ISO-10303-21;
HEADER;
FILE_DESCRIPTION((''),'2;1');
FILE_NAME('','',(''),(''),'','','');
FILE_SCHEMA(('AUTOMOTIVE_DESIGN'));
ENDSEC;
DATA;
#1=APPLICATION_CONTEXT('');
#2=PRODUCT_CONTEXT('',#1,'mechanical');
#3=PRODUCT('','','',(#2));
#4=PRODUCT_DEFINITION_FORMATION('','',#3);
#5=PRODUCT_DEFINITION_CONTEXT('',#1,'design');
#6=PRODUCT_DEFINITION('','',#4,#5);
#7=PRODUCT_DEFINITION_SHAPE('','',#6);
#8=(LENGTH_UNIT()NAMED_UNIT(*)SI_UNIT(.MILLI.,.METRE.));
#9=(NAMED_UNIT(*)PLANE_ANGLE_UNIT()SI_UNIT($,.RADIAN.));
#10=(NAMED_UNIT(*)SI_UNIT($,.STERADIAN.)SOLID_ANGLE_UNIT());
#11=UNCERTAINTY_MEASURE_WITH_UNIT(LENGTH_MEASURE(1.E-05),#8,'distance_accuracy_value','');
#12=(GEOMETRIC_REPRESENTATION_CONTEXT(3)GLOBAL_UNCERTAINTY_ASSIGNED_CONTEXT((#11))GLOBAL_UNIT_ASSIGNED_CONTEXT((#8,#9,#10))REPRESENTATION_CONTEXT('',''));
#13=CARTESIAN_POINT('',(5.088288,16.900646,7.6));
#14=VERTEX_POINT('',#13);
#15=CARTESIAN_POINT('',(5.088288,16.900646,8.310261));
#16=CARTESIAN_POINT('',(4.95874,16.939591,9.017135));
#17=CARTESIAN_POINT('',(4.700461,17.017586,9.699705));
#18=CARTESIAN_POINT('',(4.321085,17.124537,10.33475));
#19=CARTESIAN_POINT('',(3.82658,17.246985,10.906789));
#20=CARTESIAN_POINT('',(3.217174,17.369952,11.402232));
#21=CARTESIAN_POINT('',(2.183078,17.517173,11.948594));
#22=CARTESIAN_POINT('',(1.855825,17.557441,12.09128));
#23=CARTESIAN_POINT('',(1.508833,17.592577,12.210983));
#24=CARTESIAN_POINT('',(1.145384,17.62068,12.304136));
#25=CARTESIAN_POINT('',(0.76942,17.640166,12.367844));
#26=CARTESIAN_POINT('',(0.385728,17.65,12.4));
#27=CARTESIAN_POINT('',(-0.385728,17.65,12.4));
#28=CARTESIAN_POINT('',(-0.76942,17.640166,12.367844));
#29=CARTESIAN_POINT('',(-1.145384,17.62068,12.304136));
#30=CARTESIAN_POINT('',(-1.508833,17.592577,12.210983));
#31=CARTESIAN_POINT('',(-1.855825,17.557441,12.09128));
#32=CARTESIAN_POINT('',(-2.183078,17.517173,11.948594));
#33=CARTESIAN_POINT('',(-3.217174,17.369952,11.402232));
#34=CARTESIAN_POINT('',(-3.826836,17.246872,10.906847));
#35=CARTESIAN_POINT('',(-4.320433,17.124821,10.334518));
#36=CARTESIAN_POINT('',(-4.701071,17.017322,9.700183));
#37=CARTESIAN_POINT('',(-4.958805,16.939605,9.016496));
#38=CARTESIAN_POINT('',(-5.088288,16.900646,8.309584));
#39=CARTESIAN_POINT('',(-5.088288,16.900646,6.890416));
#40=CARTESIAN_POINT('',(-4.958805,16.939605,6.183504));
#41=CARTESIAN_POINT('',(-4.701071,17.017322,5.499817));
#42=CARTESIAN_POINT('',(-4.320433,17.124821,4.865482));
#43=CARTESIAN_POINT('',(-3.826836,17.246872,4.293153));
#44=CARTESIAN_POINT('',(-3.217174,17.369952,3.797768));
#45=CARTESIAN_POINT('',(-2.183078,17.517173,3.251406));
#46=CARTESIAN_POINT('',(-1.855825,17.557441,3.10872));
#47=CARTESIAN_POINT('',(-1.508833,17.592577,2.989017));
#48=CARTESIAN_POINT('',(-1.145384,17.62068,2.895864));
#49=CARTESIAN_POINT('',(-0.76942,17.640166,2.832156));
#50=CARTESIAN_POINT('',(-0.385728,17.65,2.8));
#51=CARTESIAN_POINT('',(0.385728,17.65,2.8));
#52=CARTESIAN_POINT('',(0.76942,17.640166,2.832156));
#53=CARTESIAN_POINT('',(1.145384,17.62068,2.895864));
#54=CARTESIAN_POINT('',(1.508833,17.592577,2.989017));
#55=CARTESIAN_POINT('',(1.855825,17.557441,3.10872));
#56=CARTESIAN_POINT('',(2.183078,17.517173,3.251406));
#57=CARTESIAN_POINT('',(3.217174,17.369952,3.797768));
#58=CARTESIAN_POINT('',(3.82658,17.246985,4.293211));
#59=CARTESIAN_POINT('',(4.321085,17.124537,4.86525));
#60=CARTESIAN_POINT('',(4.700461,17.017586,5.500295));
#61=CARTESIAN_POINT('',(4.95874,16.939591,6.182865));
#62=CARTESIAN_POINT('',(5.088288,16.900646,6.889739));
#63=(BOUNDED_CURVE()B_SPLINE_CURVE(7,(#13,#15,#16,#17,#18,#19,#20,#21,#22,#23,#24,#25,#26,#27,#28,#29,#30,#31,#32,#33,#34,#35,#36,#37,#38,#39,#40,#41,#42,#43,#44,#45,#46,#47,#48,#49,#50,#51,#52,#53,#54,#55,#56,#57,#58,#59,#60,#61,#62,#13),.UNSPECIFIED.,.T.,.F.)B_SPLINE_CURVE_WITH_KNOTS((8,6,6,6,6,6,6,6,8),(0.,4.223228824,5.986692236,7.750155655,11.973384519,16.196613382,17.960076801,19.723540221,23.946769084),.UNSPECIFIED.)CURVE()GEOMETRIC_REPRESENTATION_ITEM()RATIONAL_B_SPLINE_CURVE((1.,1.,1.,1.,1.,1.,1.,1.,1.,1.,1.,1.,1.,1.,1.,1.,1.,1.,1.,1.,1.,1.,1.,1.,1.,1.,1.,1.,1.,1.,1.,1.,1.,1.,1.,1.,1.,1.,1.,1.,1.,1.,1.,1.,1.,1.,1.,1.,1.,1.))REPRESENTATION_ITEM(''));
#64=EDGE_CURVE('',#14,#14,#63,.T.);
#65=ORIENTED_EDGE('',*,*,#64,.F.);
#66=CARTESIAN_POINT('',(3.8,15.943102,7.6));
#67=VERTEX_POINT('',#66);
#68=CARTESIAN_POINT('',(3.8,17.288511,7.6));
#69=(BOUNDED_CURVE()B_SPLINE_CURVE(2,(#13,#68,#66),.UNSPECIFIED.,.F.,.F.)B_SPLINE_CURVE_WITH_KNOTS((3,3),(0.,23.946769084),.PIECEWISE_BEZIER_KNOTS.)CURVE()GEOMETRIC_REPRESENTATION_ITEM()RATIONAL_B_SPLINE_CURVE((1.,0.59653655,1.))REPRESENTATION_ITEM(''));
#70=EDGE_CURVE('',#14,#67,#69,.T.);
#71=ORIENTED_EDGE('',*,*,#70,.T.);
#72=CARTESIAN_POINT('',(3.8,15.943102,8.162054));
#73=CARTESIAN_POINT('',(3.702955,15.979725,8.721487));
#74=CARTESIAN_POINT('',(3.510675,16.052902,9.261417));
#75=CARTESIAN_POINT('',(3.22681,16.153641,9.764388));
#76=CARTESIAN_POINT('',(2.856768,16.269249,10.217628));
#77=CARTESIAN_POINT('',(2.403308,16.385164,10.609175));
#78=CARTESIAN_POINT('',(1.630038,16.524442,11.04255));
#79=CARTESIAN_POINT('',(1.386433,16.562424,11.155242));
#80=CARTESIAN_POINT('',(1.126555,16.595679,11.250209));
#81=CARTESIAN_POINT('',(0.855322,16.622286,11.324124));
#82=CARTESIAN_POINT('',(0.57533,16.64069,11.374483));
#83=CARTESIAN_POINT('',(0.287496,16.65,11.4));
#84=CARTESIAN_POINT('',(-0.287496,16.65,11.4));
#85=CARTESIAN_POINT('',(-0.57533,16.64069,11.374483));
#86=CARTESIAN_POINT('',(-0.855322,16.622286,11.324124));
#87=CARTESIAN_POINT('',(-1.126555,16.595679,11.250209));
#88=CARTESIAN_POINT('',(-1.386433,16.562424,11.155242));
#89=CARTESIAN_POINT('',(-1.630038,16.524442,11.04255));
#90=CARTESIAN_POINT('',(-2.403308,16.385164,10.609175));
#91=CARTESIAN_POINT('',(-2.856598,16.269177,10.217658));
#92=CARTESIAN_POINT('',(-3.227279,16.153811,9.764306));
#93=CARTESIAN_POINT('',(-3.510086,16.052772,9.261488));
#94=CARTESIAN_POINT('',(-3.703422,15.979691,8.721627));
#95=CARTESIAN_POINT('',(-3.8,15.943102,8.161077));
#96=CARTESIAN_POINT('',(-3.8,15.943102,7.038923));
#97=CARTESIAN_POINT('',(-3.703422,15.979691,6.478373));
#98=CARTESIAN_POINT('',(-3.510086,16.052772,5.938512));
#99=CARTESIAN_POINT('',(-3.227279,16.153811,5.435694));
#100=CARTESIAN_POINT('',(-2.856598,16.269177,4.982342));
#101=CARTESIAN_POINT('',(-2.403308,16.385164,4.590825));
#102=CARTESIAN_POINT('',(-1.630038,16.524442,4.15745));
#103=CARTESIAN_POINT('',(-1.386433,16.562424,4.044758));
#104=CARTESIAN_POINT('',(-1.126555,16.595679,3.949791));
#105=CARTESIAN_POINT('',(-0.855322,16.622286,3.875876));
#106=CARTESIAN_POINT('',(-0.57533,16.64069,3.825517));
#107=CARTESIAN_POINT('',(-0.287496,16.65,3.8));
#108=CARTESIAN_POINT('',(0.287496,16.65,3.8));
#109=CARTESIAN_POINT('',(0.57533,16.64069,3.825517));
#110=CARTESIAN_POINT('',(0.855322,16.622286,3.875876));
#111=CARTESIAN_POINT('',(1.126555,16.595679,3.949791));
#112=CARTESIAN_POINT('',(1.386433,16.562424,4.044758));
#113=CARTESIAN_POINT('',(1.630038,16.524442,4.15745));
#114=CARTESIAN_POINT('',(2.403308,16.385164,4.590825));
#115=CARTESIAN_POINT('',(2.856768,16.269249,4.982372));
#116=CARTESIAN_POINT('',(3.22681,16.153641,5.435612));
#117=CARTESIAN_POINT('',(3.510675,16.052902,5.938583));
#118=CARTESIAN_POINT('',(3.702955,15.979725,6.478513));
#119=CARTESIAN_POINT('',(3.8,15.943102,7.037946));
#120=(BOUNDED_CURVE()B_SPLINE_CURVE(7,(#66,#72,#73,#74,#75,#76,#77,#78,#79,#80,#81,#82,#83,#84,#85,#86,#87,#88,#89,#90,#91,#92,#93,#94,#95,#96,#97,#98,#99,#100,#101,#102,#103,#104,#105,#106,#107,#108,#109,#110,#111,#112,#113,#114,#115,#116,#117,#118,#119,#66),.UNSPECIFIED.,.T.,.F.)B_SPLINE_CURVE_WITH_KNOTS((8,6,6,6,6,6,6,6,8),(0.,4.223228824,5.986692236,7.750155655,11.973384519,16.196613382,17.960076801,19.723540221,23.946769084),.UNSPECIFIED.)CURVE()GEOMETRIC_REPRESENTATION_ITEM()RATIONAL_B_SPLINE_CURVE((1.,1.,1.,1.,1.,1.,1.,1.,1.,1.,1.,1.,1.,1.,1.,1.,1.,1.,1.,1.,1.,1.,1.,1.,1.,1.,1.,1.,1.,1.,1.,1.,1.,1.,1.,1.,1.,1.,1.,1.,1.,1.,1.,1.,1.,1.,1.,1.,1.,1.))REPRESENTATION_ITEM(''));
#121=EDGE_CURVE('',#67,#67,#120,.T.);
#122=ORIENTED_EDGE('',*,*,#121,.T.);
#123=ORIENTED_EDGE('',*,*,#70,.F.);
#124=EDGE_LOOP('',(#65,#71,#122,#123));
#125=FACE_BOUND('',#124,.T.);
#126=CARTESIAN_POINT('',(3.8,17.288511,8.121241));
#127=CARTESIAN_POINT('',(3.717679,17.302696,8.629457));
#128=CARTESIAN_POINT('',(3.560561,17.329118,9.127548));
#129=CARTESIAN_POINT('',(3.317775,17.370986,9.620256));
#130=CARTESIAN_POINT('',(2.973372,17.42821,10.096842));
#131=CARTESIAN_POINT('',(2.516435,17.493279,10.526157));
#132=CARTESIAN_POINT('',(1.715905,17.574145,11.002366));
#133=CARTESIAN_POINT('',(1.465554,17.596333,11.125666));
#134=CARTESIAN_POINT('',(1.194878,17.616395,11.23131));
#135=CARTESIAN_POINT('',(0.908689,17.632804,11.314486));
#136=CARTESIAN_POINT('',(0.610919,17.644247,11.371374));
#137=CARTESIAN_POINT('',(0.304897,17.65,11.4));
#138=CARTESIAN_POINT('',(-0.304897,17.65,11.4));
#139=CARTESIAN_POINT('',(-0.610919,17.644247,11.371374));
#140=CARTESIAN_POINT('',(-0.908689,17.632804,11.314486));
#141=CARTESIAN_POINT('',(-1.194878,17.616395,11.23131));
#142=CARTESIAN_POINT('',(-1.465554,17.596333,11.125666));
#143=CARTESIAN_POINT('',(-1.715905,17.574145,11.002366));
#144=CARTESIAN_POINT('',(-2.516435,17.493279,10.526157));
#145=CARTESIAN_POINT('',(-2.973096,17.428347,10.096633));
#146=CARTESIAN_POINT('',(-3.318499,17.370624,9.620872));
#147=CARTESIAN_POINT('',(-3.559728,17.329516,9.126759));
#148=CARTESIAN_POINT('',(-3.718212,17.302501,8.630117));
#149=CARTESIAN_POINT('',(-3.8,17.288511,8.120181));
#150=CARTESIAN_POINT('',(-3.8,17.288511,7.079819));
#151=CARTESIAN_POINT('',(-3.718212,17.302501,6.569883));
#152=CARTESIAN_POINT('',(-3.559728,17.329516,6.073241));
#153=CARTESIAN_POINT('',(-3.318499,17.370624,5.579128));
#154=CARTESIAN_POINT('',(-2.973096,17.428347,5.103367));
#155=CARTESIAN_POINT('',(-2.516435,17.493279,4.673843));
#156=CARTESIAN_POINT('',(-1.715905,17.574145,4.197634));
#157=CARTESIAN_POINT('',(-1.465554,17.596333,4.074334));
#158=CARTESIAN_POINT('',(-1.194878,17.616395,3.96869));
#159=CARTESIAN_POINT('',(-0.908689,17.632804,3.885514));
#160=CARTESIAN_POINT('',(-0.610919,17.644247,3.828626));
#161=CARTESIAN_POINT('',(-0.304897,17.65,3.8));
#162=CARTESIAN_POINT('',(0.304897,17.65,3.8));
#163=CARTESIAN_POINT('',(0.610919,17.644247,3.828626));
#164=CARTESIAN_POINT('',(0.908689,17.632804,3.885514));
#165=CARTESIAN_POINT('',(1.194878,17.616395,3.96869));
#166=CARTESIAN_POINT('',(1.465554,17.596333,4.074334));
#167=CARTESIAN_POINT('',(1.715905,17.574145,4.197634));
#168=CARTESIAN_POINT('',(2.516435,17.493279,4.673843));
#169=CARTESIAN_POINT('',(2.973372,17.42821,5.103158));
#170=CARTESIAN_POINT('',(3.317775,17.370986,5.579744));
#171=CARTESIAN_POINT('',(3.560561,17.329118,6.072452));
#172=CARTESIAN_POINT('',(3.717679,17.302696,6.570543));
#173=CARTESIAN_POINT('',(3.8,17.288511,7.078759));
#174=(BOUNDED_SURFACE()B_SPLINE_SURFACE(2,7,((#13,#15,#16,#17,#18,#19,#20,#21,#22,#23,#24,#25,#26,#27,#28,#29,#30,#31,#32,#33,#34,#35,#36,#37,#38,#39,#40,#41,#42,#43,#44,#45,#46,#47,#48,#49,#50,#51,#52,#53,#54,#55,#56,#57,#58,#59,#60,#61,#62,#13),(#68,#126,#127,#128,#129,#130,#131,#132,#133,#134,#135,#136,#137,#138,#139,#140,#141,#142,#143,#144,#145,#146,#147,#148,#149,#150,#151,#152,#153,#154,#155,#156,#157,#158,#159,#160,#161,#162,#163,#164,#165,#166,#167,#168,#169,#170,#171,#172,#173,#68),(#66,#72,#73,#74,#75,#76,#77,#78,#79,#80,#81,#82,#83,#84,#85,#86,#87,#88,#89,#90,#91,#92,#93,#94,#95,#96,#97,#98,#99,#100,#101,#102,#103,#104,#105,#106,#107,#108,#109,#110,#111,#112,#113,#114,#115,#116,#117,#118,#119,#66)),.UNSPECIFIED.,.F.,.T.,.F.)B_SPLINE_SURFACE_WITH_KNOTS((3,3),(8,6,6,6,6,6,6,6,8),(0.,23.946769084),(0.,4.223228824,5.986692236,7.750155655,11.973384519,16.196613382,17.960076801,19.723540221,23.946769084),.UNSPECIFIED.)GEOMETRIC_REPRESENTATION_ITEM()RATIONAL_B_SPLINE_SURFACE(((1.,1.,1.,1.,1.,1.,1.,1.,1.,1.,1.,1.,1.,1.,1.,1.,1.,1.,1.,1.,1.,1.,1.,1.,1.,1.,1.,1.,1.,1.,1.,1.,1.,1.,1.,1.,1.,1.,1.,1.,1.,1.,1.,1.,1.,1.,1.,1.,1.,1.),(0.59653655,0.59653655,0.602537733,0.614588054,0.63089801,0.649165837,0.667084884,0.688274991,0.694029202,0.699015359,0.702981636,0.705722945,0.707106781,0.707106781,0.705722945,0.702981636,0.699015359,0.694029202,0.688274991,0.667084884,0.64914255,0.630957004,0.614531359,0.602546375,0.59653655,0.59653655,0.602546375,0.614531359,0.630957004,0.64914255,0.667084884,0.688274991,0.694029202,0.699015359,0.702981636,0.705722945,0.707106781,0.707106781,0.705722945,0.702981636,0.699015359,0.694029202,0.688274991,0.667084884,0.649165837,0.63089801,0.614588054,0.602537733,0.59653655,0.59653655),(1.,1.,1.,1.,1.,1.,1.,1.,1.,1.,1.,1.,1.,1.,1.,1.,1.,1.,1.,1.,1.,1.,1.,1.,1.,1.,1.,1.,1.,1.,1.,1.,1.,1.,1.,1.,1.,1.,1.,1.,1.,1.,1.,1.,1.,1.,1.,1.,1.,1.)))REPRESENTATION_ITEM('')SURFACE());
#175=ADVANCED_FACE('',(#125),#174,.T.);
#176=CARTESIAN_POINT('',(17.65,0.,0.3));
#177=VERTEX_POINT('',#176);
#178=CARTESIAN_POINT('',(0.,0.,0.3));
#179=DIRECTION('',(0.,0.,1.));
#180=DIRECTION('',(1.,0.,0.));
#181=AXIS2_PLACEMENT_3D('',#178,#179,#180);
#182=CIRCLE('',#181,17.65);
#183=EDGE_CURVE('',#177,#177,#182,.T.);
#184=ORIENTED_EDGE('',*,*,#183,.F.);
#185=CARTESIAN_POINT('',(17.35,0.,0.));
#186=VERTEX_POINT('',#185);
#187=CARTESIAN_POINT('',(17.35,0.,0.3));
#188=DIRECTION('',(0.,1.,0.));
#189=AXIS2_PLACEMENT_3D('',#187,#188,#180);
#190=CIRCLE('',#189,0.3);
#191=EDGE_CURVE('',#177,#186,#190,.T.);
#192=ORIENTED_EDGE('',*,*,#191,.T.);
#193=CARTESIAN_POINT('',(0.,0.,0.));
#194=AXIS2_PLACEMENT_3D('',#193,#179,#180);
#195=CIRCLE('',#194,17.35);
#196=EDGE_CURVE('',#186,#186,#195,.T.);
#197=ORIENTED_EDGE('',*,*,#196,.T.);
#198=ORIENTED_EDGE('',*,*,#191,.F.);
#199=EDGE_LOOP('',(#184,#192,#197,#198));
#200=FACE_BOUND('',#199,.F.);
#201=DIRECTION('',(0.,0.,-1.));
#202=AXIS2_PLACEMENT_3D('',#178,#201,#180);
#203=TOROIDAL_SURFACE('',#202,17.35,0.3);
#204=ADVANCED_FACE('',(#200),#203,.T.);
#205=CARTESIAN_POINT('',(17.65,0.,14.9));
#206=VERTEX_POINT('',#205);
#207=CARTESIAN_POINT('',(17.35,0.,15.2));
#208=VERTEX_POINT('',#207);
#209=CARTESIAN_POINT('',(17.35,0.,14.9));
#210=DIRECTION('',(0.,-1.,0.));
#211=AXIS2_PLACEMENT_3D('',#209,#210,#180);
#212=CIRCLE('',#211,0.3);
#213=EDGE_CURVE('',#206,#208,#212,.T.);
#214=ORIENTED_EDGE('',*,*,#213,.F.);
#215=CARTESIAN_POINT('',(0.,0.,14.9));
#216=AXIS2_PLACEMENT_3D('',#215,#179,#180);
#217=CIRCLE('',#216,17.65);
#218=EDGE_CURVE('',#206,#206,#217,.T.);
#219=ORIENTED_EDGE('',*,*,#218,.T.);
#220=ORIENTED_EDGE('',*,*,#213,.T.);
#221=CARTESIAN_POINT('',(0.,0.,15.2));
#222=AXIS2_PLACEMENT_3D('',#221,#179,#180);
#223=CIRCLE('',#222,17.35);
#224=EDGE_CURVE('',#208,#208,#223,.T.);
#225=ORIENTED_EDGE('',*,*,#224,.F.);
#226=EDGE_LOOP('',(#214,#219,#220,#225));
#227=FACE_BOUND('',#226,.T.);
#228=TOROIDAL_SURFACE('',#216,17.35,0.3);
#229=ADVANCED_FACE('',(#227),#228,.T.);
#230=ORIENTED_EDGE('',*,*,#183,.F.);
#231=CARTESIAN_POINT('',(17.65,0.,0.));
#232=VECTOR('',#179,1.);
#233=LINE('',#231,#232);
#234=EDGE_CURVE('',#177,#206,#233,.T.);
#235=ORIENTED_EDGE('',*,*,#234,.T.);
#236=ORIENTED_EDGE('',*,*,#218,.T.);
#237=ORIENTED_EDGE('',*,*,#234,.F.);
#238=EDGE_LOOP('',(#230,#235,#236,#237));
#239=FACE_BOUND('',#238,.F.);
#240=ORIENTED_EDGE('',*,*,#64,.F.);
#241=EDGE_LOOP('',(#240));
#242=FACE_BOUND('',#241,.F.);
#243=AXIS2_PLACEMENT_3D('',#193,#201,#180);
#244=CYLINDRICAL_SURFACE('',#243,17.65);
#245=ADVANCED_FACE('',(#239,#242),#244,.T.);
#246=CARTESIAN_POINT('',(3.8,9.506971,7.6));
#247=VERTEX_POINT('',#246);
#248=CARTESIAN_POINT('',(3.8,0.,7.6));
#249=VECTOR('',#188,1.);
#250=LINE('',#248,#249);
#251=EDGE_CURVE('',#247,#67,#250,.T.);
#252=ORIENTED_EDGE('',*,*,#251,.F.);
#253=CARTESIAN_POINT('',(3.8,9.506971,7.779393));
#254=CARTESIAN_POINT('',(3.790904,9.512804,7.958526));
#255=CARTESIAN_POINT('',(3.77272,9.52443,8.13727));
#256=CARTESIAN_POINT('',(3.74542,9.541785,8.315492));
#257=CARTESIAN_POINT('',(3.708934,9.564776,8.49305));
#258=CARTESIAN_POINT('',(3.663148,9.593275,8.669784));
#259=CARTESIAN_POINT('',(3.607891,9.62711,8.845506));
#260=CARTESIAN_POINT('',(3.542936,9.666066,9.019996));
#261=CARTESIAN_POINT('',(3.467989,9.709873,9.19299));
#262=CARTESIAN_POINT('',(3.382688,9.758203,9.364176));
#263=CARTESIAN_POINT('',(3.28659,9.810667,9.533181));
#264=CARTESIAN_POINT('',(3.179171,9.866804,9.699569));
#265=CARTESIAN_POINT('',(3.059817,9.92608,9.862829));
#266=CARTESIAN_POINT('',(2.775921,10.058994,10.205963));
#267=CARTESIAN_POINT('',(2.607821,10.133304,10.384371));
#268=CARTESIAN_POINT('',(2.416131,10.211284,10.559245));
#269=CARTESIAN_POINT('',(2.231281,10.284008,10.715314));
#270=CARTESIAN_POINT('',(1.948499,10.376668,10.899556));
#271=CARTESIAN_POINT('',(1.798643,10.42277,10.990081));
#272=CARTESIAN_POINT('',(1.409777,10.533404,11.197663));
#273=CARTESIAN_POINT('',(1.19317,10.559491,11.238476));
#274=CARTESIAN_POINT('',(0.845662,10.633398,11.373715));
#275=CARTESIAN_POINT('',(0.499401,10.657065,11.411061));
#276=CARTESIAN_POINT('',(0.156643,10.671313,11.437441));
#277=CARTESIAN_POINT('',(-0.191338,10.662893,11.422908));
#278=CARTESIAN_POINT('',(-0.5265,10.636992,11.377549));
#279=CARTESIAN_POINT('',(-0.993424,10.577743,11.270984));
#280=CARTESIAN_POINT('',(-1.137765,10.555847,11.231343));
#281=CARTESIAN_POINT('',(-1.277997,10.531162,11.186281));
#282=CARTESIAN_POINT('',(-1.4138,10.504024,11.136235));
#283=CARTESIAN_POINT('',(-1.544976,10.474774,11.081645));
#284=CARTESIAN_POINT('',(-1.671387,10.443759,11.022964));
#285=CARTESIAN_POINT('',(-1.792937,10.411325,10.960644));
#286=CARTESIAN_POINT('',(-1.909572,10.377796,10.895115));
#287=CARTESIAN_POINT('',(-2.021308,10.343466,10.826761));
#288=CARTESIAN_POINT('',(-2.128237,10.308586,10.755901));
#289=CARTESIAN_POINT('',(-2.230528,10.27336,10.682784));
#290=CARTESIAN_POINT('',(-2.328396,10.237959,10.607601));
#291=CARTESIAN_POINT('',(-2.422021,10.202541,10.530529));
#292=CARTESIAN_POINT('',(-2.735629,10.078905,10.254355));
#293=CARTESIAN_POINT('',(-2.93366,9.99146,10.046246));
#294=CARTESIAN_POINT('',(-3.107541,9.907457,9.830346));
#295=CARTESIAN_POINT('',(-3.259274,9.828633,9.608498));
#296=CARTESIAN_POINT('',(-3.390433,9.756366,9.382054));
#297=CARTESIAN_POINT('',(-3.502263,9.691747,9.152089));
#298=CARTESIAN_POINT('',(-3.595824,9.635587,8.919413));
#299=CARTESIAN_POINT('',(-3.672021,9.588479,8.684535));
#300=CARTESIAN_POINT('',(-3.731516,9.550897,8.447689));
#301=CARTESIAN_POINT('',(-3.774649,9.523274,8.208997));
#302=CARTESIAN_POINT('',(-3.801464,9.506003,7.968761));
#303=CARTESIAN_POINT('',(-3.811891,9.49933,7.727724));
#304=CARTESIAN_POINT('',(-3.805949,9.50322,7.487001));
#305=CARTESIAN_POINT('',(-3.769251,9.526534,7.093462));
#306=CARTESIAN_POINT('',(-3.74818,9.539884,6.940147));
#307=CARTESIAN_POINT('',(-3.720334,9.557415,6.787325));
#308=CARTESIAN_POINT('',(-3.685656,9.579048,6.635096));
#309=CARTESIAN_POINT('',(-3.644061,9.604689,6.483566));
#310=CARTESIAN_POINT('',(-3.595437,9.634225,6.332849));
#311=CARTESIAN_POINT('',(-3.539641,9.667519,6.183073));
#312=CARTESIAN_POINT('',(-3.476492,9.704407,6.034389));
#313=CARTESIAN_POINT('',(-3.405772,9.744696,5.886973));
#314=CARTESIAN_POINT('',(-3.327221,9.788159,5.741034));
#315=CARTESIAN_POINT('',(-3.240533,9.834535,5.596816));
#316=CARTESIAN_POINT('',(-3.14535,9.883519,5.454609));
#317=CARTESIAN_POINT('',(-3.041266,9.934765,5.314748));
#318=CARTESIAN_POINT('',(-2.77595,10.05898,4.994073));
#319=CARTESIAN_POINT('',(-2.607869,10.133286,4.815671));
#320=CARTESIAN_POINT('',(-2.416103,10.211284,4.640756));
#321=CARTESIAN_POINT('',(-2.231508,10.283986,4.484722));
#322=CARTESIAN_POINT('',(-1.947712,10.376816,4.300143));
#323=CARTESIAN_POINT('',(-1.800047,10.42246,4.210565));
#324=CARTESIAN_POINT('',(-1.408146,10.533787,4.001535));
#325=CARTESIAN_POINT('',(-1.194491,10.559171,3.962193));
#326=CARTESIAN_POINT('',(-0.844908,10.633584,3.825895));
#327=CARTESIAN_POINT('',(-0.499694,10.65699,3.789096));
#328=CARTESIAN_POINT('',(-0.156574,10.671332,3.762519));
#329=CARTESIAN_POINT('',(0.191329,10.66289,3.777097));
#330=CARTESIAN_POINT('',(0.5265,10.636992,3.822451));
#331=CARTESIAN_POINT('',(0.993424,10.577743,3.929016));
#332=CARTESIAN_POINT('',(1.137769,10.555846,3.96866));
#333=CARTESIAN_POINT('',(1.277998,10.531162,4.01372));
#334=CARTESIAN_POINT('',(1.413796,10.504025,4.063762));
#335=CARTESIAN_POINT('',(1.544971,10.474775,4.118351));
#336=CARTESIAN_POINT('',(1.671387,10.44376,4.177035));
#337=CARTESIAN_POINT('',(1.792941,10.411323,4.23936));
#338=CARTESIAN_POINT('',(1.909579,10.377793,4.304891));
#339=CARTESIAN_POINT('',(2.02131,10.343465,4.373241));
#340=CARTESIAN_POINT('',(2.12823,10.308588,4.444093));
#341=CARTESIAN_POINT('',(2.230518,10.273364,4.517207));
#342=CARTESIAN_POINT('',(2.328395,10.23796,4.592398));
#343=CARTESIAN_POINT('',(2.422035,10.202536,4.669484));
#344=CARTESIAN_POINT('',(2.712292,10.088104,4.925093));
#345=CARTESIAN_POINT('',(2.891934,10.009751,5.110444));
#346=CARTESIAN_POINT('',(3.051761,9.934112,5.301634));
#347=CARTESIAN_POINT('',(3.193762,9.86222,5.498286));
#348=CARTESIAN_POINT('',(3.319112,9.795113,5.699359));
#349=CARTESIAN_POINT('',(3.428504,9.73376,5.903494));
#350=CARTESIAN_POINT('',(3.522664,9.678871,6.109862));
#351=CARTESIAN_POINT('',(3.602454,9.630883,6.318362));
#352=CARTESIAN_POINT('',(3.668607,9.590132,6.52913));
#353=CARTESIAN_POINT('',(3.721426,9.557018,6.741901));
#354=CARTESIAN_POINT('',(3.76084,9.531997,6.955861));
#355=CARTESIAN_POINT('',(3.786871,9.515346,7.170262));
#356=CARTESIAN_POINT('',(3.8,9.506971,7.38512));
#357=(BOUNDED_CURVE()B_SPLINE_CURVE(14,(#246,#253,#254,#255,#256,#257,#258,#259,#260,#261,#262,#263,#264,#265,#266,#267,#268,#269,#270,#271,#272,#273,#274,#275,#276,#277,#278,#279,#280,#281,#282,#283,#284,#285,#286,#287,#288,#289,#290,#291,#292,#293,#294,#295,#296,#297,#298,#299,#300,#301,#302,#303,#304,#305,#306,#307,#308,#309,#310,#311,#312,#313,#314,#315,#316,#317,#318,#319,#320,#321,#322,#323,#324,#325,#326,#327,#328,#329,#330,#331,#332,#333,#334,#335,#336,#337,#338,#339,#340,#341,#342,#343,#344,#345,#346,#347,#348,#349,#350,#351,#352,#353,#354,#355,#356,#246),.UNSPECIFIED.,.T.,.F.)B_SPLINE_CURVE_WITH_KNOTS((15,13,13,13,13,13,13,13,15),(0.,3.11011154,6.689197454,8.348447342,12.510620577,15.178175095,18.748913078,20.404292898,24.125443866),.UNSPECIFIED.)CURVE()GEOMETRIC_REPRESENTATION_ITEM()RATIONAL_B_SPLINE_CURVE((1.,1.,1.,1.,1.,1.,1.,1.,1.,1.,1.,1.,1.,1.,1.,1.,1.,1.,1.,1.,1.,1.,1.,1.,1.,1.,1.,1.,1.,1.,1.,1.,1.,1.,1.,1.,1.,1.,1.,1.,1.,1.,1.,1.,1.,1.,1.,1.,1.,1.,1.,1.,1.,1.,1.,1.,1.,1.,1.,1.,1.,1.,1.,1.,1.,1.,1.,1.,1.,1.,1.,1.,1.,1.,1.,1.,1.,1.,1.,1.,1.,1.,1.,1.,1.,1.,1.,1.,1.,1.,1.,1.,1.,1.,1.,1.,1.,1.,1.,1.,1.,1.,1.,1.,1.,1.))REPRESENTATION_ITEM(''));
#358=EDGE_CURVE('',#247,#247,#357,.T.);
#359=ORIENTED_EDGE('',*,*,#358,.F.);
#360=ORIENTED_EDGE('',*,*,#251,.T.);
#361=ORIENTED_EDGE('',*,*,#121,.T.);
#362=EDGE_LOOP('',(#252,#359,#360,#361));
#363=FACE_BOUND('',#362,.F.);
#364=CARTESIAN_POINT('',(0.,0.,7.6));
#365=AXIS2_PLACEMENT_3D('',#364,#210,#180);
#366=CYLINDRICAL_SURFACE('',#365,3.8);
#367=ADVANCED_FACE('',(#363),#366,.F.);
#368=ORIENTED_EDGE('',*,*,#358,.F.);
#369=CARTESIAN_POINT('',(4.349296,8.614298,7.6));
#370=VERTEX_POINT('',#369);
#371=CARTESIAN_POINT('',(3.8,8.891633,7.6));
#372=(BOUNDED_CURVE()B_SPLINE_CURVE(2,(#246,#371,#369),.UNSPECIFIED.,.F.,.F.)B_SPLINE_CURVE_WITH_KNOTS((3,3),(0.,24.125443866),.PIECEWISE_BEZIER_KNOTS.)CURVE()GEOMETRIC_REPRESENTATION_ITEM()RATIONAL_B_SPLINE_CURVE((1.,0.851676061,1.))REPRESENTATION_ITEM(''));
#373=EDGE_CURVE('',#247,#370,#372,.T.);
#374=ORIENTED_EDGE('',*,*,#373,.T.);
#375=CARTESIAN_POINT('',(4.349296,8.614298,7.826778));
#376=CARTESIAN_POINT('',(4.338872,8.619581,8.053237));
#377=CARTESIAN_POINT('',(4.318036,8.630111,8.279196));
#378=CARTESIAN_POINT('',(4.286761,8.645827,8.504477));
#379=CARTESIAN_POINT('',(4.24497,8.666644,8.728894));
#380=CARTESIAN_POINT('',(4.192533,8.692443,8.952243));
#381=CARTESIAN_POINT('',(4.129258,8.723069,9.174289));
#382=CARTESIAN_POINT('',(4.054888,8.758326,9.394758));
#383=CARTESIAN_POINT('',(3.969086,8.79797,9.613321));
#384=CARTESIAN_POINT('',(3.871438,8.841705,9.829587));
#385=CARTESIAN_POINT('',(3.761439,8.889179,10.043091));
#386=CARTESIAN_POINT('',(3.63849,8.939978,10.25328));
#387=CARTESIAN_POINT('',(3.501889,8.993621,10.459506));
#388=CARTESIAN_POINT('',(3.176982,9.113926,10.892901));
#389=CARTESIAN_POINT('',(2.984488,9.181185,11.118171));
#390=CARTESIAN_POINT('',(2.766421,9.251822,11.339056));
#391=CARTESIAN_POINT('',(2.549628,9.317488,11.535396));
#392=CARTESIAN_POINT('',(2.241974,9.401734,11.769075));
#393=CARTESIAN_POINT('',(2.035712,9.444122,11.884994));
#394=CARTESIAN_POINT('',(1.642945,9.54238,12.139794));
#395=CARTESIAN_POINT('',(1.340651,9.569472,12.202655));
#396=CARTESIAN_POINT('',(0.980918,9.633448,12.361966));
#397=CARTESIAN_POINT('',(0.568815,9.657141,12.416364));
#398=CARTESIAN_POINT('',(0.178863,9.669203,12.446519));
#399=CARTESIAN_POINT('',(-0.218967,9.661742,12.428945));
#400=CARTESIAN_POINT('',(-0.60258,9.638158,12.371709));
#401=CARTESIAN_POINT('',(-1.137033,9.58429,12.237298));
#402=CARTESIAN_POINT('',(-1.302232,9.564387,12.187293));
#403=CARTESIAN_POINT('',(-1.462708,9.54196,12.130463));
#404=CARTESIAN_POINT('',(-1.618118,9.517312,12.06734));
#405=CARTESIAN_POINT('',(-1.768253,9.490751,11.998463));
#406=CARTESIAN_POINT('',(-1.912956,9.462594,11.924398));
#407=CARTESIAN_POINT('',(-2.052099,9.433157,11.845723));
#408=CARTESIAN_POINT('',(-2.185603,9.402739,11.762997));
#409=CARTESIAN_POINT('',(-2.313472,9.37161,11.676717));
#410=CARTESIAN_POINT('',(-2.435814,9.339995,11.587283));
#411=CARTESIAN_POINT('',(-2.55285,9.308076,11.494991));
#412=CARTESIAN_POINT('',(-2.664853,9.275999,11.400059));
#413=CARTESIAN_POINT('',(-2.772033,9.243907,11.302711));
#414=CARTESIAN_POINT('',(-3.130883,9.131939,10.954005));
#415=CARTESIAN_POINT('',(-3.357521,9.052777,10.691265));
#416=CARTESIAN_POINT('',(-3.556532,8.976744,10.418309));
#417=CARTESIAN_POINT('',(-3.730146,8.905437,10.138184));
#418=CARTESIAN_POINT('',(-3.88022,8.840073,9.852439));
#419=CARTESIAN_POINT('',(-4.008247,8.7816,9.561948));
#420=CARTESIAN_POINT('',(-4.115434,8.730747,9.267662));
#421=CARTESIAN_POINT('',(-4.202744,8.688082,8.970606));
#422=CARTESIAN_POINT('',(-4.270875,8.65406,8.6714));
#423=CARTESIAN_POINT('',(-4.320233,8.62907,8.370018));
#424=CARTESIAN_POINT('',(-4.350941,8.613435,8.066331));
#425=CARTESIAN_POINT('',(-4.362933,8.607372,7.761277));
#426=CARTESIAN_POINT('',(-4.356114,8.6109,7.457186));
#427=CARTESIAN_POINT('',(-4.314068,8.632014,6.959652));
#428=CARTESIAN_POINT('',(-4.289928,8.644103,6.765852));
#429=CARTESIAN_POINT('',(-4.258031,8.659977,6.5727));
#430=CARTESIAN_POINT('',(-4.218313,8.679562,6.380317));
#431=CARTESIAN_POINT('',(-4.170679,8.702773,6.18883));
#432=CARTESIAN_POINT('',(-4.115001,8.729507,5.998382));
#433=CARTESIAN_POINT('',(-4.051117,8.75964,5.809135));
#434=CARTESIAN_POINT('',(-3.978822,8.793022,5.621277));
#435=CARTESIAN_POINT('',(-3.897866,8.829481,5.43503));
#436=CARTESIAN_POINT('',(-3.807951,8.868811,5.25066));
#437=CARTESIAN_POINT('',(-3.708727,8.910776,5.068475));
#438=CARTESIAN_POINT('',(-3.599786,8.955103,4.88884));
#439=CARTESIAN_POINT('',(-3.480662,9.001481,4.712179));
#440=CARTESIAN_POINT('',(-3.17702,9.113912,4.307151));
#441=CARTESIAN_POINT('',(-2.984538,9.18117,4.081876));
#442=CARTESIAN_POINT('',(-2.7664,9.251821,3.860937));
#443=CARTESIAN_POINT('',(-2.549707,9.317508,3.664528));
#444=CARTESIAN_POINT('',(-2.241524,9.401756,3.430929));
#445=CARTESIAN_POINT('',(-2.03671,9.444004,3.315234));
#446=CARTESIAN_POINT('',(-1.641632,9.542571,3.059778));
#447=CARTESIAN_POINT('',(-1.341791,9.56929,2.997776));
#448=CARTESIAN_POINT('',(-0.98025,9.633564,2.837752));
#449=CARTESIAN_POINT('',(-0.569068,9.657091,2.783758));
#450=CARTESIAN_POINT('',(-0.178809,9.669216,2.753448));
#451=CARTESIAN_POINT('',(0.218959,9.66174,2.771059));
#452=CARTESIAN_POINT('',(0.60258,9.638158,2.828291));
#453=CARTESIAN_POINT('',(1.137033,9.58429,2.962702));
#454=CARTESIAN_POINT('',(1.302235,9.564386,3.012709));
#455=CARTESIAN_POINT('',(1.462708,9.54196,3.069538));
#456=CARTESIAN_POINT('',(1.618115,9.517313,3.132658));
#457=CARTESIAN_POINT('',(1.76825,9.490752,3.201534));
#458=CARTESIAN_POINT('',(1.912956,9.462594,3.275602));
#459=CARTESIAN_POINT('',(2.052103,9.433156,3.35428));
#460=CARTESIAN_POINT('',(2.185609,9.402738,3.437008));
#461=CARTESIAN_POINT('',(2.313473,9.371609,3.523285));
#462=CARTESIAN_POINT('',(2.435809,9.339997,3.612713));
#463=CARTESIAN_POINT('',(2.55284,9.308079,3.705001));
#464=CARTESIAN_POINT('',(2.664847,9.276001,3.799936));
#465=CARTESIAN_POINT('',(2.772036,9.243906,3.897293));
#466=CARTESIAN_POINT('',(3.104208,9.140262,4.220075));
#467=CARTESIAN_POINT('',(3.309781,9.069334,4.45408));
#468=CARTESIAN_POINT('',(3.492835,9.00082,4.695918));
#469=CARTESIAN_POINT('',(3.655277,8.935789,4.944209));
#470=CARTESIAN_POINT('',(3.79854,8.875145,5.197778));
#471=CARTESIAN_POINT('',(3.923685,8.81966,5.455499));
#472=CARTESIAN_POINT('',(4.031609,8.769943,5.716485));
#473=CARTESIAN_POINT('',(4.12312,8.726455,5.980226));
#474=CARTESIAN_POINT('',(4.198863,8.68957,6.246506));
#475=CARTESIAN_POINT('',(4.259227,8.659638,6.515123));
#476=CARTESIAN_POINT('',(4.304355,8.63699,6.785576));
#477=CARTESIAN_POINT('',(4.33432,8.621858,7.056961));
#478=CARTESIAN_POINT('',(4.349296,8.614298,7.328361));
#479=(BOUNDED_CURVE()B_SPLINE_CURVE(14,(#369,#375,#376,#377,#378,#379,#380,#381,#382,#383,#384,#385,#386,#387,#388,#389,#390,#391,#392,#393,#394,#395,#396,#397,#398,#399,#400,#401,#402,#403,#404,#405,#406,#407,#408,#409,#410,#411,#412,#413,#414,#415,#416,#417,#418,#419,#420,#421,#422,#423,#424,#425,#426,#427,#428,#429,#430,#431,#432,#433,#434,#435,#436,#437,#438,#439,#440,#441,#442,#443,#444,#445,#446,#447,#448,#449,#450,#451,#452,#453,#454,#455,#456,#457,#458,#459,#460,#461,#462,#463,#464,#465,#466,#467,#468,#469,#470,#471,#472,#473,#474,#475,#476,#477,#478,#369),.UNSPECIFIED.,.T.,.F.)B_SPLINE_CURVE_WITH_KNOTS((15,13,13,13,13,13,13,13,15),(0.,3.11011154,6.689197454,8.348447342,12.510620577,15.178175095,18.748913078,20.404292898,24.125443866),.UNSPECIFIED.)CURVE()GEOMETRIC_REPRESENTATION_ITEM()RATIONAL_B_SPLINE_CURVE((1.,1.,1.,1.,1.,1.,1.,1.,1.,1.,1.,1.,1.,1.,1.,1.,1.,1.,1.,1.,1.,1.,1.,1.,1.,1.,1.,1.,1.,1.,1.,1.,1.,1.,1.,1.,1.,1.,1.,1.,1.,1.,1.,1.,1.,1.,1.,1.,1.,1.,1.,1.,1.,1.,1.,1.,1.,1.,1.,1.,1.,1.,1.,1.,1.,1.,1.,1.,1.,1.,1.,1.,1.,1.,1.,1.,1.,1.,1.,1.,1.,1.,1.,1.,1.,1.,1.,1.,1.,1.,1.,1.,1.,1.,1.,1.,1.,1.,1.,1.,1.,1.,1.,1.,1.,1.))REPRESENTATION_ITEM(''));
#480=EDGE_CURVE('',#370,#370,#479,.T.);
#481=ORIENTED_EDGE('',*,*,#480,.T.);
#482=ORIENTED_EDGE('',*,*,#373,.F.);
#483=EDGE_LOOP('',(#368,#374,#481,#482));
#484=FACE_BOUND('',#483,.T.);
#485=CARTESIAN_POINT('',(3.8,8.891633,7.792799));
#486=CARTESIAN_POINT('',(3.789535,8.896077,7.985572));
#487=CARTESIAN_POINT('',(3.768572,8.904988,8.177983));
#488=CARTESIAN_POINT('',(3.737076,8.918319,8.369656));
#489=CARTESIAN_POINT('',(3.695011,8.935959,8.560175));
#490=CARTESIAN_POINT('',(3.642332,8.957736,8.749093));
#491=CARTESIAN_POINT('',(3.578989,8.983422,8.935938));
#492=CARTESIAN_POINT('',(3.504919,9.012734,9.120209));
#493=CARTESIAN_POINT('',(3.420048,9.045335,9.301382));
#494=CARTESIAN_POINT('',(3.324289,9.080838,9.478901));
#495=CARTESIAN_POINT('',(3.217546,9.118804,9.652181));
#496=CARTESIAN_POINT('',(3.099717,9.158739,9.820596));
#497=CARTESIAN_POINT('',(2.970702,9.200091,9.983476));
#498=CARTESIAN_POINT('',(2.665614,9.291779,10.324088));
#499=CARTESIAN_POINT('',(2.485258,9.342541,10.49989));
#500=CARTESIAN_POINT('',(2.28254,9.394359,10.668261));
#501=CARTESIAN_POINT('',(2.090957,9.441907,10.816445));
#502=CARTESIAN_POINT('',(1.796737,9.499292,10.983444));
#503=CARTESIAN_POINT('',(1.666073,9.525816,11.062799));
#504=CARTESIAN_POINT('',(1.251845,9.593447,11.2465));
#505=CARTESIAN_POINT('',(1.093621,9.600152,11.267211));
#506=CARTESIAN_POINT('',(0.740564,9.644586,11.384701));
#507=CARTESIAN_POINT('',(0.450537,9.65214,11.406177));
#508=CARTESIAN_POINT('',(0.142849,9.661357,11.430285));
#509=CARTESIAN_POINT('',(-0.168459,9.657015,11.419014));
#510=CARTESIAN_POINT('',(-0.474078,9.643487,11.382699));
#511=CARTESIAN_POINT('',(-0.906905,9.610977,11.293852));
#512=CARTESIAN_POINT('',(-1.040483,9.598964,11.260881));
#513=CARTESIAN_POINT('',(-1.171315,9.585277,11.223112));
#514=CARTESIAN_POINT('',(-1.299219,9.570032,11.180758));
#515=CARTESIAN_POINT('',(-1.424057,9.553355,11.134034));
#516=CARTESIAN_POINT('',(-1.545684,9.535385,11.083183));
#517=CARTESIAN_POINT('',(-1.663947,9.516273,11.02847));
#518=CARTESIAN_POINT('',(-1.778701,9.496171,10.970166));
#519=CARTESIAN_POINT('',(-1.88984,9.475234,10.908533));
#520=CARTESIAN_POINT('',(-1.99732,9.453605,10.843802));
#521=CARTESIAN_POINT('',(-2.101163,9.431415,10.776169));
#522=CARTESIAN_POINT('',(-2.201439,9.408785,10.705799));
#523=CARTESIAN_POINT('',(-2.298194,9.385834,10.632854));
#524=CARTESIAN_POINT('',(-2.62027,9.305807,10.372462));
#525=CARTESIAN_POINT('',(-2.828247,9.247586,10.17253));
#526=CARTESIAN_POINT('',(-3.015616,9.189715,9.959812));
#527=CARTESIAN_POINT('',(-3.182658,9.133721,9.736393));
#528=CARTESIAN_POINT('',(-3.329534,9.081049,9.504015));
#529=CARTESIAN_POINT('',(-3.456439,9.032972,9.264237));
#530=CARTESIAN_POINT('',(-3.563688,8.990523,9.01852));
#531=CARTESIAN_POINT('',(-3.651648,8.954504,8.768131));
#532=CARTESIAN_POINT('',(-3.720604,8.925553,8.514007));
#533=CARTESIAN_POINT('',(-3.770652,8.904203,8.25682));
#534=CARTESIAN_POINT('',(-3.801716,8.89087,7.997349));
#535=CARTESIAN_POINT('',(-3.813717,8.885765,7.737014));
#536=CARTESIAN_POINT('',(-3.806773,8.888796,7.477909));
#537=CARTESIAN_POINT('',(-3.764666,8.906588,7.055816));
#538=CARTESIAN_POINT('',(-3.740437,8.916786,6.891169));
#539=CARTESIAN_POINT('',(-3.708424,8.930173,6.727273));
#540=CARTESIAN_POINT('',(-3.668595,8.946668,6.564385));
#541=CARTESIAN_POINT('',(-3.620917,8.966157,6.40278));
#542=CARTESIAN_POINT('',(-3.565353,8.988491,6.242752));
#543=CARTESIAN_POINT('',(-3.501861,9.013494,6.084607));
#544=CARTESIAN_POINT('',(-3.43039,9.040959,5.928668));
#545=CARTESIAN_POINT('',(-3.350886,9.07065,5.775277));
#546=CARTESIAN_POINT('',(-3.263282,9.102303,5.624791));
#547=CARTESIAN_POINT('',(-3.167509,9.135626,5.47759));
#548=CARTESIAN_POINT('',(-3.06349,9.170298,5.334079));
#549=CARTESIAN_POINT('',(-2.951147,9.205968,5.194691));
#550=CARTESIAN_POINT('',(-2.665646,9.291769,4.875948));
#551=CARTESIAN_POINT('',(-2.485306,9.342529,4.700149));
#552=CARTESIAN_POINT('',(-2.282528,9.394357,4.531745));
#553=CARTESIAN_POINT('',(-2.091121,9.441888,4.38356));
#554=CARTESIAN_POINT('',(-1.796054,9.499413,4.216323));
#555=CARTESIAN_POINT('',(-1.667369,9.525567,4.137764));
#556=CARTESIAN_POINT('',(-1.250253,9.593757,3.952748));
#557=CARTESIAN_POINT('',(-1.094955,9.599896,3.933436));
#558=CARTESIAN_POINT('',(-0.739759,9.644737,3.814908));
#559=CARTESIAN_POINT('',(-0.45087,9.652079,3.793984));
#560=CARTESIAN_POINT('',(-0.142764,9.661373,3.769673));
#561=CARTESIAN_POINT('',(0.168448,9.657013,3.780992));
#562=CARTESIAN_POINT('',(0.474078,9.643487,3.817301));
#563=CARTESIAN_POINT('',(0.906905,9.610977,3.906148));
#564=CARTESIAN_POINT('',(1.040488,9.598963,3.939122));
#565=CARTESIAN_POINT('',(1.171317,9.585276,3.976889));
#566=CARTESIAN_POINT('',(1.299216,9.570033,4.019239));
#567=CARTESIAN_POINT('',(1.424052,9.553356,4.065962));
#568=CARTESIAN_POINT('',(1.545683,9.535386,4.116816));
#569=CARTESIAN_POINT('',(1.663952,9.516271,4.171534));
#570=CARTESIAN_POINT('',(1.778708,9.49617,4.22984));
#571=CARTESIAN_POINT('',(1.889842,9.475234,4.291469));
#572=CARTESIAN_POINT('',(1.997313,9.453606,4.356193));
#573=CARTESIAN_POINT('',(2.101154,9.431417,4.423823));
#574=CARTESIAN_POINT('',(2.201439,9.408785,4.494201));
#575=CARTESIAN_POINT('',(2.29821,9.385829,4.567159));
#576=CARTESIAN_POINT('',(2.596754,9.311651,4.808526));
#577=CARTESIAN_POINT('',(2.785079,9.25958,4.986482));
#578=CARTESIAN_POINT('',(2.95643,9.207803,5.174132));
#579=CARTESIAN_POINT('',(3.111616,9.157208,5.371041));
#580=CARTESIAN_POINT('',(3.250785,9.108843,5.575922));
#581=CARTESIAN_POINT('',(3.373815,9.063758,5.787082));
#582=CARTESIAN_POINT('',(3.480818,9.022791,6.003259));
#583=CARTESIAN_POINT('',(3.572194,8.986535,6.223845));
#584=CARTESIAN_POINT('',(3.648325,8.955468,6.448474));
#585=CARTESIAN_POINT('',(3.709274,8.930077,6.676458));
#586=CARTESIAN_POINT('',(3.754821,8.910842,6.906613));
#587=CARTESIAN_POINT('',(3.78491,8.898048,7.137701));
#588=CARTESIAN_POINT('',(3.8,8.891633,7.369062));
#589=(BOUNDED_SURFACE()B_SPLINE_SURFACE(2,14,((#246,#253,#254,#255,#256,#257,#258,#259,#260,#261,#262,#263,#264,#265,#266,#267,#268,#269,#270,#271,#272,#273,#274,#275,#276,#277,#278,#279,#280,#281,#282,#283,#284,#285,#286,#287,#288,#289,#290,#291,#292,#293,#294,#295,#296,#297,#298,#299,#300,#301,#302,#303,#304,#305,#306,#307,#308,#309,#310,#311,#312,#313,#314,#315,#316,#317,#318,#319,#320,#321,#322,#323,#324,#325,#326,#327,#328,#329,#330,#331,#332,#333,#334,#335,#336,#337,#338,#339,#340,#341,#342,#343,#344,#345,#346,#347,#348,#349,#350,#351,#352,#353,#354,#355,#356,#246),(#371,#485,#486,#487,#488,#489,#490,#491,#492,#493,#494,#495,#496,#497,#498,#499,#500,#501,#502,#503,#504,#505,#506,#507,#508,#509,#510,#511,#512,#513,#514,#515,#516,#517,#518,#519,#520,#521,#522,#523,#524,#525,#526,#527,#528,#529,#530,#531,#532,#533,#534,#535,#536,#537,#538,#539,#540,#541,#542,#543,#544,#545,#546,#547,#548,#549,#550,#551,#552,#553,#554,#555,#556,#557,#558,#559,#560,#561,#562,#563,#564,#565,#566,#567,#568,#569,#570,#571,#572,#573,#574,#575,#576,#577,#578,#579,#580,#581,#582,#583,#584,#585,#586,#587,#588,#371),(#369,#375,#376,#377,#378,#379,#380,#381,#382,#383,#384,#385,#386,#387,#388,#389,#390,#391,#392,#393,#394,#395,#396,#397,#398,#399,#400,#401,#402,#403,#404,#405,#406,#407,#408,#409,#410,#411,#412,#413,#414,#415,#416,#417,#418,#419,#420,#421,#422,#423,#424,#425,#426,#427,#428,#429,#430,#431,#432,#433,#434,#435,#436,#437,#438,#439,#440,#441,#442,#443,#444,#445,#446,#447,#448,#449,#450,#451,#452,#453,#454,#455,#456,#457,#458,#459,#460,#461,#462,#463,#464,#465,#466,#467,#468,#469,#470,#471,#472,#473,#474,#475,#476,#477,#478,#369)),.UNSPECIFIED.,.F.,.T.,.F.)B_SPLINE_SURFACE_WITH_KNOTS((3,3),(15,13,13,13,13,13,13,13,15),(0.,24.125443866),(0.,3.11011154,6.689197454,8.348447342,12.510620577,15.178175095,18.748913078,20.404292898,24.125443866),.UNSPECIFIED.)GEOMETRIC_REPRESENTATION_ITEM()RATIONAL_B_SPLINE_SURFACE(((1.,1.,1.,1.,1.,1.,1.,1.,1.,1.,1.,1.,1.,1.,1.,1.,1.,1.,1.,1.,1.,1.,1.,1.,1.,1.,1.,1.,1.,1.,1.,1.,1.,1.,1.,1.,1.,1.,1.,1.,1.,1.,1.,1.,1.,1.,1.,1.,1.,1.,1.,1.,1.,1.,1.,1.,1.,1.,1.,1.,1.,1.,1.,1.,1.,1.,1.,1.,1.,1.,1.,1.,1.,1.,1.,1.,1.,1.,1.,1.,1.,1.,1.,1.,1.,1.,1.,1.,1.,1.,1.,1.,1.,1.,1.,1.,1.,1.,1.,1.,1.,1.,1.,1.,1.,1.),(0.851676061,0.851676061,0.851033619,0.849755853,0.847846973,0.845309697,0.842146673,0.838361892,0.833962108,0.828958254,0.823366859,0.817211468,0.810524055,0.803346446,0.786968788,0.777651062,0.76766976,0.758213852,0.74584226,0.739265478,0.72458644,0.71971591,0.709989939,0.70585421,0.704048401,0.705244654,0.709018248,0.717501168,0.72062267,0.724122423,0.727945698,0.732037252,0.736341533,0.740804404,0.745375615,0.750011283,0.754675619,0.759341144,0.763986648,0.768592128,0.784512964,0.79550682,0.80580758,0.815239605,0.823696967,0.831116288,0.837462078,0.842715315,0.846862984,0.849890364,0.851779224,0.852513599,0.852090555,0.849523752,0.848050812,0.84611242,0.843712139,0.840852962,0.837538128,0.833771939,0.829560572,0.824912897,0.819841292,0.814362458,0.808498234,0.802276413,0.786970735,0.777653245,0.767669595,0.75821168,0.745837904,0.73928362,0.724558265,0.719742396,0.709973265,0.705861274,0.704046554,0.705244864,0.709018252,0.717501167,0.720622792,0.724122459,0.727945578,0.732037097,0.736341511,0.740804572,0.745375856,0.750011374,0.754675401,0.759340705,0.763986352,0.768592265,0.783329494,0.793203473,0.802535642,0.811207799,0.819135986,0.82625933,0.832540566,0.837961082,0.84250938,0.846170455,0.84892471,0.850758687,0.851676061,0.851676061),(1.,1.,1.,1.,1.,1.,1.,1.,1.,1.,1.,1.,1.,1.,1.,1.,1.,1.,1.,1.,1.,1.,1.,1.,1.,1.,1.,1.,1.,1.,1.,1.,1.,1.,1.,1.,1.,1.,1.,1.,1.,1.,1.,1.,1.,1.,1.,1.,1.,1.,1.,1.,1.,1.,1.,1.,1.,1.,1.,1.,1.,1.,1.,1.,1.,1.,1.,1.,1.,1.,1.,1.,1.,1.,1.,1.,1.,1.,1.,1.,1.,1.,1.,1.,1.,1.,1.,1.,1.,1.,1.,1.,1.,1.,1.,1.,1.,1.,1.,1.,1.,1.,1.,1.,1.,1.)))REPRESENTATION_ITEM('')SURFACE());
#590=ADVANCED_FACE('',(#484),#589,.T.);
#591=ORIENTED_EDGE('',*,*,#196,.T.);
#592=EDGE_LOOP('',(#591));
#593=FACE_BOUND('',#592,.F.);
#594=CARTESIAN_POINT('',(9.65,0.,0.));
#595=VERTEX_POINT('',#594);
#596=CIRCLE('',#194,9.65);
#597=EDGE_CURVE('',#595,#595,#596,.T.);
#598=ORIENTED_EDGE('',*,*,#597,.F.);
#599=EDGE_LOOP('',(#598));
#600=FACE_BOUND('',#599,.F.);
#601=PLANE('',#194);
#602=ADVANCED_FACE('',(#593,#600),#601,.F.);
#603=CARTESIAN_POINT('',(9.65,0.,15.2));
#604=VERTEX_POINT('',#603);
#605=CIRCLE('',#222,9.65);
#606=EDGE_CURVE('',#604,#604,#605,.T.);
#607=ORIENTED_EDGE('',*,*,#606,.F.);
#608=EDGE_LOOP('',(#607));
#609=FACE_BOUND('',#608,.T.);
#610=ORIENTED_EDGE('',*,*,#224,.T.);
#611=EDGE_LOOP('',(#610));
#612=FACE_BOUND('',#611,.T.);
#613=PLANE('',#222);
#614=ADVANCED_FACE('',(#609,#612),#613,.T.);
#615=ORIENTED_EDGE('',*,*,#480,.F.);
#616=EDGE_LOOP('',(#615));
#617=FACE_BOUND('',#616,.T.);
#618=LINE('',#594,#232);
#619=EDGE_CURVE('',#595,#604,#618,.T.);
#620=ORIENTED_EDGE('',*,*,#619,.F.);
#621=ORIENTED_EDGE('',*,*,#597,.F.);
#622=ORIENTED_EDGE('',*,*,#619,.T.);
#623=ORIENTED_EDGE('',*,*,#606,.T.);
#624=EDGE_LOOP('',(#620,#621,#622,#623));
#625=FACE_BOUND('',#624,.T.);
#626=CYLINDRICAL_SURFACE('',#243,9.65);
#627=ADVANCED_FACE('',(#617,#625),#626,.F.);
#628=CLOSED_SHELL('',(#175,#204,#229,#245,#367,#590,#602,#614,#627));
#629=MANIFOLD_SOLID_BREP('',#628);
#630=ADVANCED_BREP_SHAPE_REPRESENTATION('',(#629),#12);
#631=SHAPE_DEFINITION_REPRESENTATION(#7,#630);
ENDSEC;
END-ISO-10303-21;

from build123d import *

# Parameters (mm, degrees)
F0_R     = 17.65
F0_R_2   = 9.65
F1_DEPTH = 15.2
F2_R     = 0.3
F3_R     = 3.8
F4_DEPTH = 24
F5_R     = 1
F6_R     = 1


with BuildPart() as f1:
    # F0 (on Top) → F1 (new body)
    with BuildSketch(Plane.XY):
        Circle(F0_R)
        Circle(F0_R_2, mode=Mode.SUBTRACT)
    extrude(amount=F1_DEPTH)

    # F2
    f2_edges = [f1.edges().sort_by_distance(p)[0] for p in [
        (-17.65, 0, 15.2),
        (17.65, 0, 7.6),
        (-17.65, 0, 0),
    ]]
    fillet(f2_edges, radius=F2_R)

    # F3 (on Front) → F4 (cut)
    with BuildSketch(Plane.XZ):
        with Locations((0, 7.6)):
            Circle(F3_R)
    extrude(amount=-F4_DEPTH, mode=Mode.SUBTRACT)

    # F5
    f5_edges = [f1.edges().sort_by_distance(p)[0] for p in [
        (-3.8, 17.236081, 7.6),
    ]]
    fillet(f5_edges, radius=F5_R)

    # F6
    f6_edges = [f1.edges().sort_by_distance(p)[0] for p in [
        (-3.8, 8.870316, 7.6),
    ]]
    fillet(f6_edges, radius=F6_R)


solid = f1.part
